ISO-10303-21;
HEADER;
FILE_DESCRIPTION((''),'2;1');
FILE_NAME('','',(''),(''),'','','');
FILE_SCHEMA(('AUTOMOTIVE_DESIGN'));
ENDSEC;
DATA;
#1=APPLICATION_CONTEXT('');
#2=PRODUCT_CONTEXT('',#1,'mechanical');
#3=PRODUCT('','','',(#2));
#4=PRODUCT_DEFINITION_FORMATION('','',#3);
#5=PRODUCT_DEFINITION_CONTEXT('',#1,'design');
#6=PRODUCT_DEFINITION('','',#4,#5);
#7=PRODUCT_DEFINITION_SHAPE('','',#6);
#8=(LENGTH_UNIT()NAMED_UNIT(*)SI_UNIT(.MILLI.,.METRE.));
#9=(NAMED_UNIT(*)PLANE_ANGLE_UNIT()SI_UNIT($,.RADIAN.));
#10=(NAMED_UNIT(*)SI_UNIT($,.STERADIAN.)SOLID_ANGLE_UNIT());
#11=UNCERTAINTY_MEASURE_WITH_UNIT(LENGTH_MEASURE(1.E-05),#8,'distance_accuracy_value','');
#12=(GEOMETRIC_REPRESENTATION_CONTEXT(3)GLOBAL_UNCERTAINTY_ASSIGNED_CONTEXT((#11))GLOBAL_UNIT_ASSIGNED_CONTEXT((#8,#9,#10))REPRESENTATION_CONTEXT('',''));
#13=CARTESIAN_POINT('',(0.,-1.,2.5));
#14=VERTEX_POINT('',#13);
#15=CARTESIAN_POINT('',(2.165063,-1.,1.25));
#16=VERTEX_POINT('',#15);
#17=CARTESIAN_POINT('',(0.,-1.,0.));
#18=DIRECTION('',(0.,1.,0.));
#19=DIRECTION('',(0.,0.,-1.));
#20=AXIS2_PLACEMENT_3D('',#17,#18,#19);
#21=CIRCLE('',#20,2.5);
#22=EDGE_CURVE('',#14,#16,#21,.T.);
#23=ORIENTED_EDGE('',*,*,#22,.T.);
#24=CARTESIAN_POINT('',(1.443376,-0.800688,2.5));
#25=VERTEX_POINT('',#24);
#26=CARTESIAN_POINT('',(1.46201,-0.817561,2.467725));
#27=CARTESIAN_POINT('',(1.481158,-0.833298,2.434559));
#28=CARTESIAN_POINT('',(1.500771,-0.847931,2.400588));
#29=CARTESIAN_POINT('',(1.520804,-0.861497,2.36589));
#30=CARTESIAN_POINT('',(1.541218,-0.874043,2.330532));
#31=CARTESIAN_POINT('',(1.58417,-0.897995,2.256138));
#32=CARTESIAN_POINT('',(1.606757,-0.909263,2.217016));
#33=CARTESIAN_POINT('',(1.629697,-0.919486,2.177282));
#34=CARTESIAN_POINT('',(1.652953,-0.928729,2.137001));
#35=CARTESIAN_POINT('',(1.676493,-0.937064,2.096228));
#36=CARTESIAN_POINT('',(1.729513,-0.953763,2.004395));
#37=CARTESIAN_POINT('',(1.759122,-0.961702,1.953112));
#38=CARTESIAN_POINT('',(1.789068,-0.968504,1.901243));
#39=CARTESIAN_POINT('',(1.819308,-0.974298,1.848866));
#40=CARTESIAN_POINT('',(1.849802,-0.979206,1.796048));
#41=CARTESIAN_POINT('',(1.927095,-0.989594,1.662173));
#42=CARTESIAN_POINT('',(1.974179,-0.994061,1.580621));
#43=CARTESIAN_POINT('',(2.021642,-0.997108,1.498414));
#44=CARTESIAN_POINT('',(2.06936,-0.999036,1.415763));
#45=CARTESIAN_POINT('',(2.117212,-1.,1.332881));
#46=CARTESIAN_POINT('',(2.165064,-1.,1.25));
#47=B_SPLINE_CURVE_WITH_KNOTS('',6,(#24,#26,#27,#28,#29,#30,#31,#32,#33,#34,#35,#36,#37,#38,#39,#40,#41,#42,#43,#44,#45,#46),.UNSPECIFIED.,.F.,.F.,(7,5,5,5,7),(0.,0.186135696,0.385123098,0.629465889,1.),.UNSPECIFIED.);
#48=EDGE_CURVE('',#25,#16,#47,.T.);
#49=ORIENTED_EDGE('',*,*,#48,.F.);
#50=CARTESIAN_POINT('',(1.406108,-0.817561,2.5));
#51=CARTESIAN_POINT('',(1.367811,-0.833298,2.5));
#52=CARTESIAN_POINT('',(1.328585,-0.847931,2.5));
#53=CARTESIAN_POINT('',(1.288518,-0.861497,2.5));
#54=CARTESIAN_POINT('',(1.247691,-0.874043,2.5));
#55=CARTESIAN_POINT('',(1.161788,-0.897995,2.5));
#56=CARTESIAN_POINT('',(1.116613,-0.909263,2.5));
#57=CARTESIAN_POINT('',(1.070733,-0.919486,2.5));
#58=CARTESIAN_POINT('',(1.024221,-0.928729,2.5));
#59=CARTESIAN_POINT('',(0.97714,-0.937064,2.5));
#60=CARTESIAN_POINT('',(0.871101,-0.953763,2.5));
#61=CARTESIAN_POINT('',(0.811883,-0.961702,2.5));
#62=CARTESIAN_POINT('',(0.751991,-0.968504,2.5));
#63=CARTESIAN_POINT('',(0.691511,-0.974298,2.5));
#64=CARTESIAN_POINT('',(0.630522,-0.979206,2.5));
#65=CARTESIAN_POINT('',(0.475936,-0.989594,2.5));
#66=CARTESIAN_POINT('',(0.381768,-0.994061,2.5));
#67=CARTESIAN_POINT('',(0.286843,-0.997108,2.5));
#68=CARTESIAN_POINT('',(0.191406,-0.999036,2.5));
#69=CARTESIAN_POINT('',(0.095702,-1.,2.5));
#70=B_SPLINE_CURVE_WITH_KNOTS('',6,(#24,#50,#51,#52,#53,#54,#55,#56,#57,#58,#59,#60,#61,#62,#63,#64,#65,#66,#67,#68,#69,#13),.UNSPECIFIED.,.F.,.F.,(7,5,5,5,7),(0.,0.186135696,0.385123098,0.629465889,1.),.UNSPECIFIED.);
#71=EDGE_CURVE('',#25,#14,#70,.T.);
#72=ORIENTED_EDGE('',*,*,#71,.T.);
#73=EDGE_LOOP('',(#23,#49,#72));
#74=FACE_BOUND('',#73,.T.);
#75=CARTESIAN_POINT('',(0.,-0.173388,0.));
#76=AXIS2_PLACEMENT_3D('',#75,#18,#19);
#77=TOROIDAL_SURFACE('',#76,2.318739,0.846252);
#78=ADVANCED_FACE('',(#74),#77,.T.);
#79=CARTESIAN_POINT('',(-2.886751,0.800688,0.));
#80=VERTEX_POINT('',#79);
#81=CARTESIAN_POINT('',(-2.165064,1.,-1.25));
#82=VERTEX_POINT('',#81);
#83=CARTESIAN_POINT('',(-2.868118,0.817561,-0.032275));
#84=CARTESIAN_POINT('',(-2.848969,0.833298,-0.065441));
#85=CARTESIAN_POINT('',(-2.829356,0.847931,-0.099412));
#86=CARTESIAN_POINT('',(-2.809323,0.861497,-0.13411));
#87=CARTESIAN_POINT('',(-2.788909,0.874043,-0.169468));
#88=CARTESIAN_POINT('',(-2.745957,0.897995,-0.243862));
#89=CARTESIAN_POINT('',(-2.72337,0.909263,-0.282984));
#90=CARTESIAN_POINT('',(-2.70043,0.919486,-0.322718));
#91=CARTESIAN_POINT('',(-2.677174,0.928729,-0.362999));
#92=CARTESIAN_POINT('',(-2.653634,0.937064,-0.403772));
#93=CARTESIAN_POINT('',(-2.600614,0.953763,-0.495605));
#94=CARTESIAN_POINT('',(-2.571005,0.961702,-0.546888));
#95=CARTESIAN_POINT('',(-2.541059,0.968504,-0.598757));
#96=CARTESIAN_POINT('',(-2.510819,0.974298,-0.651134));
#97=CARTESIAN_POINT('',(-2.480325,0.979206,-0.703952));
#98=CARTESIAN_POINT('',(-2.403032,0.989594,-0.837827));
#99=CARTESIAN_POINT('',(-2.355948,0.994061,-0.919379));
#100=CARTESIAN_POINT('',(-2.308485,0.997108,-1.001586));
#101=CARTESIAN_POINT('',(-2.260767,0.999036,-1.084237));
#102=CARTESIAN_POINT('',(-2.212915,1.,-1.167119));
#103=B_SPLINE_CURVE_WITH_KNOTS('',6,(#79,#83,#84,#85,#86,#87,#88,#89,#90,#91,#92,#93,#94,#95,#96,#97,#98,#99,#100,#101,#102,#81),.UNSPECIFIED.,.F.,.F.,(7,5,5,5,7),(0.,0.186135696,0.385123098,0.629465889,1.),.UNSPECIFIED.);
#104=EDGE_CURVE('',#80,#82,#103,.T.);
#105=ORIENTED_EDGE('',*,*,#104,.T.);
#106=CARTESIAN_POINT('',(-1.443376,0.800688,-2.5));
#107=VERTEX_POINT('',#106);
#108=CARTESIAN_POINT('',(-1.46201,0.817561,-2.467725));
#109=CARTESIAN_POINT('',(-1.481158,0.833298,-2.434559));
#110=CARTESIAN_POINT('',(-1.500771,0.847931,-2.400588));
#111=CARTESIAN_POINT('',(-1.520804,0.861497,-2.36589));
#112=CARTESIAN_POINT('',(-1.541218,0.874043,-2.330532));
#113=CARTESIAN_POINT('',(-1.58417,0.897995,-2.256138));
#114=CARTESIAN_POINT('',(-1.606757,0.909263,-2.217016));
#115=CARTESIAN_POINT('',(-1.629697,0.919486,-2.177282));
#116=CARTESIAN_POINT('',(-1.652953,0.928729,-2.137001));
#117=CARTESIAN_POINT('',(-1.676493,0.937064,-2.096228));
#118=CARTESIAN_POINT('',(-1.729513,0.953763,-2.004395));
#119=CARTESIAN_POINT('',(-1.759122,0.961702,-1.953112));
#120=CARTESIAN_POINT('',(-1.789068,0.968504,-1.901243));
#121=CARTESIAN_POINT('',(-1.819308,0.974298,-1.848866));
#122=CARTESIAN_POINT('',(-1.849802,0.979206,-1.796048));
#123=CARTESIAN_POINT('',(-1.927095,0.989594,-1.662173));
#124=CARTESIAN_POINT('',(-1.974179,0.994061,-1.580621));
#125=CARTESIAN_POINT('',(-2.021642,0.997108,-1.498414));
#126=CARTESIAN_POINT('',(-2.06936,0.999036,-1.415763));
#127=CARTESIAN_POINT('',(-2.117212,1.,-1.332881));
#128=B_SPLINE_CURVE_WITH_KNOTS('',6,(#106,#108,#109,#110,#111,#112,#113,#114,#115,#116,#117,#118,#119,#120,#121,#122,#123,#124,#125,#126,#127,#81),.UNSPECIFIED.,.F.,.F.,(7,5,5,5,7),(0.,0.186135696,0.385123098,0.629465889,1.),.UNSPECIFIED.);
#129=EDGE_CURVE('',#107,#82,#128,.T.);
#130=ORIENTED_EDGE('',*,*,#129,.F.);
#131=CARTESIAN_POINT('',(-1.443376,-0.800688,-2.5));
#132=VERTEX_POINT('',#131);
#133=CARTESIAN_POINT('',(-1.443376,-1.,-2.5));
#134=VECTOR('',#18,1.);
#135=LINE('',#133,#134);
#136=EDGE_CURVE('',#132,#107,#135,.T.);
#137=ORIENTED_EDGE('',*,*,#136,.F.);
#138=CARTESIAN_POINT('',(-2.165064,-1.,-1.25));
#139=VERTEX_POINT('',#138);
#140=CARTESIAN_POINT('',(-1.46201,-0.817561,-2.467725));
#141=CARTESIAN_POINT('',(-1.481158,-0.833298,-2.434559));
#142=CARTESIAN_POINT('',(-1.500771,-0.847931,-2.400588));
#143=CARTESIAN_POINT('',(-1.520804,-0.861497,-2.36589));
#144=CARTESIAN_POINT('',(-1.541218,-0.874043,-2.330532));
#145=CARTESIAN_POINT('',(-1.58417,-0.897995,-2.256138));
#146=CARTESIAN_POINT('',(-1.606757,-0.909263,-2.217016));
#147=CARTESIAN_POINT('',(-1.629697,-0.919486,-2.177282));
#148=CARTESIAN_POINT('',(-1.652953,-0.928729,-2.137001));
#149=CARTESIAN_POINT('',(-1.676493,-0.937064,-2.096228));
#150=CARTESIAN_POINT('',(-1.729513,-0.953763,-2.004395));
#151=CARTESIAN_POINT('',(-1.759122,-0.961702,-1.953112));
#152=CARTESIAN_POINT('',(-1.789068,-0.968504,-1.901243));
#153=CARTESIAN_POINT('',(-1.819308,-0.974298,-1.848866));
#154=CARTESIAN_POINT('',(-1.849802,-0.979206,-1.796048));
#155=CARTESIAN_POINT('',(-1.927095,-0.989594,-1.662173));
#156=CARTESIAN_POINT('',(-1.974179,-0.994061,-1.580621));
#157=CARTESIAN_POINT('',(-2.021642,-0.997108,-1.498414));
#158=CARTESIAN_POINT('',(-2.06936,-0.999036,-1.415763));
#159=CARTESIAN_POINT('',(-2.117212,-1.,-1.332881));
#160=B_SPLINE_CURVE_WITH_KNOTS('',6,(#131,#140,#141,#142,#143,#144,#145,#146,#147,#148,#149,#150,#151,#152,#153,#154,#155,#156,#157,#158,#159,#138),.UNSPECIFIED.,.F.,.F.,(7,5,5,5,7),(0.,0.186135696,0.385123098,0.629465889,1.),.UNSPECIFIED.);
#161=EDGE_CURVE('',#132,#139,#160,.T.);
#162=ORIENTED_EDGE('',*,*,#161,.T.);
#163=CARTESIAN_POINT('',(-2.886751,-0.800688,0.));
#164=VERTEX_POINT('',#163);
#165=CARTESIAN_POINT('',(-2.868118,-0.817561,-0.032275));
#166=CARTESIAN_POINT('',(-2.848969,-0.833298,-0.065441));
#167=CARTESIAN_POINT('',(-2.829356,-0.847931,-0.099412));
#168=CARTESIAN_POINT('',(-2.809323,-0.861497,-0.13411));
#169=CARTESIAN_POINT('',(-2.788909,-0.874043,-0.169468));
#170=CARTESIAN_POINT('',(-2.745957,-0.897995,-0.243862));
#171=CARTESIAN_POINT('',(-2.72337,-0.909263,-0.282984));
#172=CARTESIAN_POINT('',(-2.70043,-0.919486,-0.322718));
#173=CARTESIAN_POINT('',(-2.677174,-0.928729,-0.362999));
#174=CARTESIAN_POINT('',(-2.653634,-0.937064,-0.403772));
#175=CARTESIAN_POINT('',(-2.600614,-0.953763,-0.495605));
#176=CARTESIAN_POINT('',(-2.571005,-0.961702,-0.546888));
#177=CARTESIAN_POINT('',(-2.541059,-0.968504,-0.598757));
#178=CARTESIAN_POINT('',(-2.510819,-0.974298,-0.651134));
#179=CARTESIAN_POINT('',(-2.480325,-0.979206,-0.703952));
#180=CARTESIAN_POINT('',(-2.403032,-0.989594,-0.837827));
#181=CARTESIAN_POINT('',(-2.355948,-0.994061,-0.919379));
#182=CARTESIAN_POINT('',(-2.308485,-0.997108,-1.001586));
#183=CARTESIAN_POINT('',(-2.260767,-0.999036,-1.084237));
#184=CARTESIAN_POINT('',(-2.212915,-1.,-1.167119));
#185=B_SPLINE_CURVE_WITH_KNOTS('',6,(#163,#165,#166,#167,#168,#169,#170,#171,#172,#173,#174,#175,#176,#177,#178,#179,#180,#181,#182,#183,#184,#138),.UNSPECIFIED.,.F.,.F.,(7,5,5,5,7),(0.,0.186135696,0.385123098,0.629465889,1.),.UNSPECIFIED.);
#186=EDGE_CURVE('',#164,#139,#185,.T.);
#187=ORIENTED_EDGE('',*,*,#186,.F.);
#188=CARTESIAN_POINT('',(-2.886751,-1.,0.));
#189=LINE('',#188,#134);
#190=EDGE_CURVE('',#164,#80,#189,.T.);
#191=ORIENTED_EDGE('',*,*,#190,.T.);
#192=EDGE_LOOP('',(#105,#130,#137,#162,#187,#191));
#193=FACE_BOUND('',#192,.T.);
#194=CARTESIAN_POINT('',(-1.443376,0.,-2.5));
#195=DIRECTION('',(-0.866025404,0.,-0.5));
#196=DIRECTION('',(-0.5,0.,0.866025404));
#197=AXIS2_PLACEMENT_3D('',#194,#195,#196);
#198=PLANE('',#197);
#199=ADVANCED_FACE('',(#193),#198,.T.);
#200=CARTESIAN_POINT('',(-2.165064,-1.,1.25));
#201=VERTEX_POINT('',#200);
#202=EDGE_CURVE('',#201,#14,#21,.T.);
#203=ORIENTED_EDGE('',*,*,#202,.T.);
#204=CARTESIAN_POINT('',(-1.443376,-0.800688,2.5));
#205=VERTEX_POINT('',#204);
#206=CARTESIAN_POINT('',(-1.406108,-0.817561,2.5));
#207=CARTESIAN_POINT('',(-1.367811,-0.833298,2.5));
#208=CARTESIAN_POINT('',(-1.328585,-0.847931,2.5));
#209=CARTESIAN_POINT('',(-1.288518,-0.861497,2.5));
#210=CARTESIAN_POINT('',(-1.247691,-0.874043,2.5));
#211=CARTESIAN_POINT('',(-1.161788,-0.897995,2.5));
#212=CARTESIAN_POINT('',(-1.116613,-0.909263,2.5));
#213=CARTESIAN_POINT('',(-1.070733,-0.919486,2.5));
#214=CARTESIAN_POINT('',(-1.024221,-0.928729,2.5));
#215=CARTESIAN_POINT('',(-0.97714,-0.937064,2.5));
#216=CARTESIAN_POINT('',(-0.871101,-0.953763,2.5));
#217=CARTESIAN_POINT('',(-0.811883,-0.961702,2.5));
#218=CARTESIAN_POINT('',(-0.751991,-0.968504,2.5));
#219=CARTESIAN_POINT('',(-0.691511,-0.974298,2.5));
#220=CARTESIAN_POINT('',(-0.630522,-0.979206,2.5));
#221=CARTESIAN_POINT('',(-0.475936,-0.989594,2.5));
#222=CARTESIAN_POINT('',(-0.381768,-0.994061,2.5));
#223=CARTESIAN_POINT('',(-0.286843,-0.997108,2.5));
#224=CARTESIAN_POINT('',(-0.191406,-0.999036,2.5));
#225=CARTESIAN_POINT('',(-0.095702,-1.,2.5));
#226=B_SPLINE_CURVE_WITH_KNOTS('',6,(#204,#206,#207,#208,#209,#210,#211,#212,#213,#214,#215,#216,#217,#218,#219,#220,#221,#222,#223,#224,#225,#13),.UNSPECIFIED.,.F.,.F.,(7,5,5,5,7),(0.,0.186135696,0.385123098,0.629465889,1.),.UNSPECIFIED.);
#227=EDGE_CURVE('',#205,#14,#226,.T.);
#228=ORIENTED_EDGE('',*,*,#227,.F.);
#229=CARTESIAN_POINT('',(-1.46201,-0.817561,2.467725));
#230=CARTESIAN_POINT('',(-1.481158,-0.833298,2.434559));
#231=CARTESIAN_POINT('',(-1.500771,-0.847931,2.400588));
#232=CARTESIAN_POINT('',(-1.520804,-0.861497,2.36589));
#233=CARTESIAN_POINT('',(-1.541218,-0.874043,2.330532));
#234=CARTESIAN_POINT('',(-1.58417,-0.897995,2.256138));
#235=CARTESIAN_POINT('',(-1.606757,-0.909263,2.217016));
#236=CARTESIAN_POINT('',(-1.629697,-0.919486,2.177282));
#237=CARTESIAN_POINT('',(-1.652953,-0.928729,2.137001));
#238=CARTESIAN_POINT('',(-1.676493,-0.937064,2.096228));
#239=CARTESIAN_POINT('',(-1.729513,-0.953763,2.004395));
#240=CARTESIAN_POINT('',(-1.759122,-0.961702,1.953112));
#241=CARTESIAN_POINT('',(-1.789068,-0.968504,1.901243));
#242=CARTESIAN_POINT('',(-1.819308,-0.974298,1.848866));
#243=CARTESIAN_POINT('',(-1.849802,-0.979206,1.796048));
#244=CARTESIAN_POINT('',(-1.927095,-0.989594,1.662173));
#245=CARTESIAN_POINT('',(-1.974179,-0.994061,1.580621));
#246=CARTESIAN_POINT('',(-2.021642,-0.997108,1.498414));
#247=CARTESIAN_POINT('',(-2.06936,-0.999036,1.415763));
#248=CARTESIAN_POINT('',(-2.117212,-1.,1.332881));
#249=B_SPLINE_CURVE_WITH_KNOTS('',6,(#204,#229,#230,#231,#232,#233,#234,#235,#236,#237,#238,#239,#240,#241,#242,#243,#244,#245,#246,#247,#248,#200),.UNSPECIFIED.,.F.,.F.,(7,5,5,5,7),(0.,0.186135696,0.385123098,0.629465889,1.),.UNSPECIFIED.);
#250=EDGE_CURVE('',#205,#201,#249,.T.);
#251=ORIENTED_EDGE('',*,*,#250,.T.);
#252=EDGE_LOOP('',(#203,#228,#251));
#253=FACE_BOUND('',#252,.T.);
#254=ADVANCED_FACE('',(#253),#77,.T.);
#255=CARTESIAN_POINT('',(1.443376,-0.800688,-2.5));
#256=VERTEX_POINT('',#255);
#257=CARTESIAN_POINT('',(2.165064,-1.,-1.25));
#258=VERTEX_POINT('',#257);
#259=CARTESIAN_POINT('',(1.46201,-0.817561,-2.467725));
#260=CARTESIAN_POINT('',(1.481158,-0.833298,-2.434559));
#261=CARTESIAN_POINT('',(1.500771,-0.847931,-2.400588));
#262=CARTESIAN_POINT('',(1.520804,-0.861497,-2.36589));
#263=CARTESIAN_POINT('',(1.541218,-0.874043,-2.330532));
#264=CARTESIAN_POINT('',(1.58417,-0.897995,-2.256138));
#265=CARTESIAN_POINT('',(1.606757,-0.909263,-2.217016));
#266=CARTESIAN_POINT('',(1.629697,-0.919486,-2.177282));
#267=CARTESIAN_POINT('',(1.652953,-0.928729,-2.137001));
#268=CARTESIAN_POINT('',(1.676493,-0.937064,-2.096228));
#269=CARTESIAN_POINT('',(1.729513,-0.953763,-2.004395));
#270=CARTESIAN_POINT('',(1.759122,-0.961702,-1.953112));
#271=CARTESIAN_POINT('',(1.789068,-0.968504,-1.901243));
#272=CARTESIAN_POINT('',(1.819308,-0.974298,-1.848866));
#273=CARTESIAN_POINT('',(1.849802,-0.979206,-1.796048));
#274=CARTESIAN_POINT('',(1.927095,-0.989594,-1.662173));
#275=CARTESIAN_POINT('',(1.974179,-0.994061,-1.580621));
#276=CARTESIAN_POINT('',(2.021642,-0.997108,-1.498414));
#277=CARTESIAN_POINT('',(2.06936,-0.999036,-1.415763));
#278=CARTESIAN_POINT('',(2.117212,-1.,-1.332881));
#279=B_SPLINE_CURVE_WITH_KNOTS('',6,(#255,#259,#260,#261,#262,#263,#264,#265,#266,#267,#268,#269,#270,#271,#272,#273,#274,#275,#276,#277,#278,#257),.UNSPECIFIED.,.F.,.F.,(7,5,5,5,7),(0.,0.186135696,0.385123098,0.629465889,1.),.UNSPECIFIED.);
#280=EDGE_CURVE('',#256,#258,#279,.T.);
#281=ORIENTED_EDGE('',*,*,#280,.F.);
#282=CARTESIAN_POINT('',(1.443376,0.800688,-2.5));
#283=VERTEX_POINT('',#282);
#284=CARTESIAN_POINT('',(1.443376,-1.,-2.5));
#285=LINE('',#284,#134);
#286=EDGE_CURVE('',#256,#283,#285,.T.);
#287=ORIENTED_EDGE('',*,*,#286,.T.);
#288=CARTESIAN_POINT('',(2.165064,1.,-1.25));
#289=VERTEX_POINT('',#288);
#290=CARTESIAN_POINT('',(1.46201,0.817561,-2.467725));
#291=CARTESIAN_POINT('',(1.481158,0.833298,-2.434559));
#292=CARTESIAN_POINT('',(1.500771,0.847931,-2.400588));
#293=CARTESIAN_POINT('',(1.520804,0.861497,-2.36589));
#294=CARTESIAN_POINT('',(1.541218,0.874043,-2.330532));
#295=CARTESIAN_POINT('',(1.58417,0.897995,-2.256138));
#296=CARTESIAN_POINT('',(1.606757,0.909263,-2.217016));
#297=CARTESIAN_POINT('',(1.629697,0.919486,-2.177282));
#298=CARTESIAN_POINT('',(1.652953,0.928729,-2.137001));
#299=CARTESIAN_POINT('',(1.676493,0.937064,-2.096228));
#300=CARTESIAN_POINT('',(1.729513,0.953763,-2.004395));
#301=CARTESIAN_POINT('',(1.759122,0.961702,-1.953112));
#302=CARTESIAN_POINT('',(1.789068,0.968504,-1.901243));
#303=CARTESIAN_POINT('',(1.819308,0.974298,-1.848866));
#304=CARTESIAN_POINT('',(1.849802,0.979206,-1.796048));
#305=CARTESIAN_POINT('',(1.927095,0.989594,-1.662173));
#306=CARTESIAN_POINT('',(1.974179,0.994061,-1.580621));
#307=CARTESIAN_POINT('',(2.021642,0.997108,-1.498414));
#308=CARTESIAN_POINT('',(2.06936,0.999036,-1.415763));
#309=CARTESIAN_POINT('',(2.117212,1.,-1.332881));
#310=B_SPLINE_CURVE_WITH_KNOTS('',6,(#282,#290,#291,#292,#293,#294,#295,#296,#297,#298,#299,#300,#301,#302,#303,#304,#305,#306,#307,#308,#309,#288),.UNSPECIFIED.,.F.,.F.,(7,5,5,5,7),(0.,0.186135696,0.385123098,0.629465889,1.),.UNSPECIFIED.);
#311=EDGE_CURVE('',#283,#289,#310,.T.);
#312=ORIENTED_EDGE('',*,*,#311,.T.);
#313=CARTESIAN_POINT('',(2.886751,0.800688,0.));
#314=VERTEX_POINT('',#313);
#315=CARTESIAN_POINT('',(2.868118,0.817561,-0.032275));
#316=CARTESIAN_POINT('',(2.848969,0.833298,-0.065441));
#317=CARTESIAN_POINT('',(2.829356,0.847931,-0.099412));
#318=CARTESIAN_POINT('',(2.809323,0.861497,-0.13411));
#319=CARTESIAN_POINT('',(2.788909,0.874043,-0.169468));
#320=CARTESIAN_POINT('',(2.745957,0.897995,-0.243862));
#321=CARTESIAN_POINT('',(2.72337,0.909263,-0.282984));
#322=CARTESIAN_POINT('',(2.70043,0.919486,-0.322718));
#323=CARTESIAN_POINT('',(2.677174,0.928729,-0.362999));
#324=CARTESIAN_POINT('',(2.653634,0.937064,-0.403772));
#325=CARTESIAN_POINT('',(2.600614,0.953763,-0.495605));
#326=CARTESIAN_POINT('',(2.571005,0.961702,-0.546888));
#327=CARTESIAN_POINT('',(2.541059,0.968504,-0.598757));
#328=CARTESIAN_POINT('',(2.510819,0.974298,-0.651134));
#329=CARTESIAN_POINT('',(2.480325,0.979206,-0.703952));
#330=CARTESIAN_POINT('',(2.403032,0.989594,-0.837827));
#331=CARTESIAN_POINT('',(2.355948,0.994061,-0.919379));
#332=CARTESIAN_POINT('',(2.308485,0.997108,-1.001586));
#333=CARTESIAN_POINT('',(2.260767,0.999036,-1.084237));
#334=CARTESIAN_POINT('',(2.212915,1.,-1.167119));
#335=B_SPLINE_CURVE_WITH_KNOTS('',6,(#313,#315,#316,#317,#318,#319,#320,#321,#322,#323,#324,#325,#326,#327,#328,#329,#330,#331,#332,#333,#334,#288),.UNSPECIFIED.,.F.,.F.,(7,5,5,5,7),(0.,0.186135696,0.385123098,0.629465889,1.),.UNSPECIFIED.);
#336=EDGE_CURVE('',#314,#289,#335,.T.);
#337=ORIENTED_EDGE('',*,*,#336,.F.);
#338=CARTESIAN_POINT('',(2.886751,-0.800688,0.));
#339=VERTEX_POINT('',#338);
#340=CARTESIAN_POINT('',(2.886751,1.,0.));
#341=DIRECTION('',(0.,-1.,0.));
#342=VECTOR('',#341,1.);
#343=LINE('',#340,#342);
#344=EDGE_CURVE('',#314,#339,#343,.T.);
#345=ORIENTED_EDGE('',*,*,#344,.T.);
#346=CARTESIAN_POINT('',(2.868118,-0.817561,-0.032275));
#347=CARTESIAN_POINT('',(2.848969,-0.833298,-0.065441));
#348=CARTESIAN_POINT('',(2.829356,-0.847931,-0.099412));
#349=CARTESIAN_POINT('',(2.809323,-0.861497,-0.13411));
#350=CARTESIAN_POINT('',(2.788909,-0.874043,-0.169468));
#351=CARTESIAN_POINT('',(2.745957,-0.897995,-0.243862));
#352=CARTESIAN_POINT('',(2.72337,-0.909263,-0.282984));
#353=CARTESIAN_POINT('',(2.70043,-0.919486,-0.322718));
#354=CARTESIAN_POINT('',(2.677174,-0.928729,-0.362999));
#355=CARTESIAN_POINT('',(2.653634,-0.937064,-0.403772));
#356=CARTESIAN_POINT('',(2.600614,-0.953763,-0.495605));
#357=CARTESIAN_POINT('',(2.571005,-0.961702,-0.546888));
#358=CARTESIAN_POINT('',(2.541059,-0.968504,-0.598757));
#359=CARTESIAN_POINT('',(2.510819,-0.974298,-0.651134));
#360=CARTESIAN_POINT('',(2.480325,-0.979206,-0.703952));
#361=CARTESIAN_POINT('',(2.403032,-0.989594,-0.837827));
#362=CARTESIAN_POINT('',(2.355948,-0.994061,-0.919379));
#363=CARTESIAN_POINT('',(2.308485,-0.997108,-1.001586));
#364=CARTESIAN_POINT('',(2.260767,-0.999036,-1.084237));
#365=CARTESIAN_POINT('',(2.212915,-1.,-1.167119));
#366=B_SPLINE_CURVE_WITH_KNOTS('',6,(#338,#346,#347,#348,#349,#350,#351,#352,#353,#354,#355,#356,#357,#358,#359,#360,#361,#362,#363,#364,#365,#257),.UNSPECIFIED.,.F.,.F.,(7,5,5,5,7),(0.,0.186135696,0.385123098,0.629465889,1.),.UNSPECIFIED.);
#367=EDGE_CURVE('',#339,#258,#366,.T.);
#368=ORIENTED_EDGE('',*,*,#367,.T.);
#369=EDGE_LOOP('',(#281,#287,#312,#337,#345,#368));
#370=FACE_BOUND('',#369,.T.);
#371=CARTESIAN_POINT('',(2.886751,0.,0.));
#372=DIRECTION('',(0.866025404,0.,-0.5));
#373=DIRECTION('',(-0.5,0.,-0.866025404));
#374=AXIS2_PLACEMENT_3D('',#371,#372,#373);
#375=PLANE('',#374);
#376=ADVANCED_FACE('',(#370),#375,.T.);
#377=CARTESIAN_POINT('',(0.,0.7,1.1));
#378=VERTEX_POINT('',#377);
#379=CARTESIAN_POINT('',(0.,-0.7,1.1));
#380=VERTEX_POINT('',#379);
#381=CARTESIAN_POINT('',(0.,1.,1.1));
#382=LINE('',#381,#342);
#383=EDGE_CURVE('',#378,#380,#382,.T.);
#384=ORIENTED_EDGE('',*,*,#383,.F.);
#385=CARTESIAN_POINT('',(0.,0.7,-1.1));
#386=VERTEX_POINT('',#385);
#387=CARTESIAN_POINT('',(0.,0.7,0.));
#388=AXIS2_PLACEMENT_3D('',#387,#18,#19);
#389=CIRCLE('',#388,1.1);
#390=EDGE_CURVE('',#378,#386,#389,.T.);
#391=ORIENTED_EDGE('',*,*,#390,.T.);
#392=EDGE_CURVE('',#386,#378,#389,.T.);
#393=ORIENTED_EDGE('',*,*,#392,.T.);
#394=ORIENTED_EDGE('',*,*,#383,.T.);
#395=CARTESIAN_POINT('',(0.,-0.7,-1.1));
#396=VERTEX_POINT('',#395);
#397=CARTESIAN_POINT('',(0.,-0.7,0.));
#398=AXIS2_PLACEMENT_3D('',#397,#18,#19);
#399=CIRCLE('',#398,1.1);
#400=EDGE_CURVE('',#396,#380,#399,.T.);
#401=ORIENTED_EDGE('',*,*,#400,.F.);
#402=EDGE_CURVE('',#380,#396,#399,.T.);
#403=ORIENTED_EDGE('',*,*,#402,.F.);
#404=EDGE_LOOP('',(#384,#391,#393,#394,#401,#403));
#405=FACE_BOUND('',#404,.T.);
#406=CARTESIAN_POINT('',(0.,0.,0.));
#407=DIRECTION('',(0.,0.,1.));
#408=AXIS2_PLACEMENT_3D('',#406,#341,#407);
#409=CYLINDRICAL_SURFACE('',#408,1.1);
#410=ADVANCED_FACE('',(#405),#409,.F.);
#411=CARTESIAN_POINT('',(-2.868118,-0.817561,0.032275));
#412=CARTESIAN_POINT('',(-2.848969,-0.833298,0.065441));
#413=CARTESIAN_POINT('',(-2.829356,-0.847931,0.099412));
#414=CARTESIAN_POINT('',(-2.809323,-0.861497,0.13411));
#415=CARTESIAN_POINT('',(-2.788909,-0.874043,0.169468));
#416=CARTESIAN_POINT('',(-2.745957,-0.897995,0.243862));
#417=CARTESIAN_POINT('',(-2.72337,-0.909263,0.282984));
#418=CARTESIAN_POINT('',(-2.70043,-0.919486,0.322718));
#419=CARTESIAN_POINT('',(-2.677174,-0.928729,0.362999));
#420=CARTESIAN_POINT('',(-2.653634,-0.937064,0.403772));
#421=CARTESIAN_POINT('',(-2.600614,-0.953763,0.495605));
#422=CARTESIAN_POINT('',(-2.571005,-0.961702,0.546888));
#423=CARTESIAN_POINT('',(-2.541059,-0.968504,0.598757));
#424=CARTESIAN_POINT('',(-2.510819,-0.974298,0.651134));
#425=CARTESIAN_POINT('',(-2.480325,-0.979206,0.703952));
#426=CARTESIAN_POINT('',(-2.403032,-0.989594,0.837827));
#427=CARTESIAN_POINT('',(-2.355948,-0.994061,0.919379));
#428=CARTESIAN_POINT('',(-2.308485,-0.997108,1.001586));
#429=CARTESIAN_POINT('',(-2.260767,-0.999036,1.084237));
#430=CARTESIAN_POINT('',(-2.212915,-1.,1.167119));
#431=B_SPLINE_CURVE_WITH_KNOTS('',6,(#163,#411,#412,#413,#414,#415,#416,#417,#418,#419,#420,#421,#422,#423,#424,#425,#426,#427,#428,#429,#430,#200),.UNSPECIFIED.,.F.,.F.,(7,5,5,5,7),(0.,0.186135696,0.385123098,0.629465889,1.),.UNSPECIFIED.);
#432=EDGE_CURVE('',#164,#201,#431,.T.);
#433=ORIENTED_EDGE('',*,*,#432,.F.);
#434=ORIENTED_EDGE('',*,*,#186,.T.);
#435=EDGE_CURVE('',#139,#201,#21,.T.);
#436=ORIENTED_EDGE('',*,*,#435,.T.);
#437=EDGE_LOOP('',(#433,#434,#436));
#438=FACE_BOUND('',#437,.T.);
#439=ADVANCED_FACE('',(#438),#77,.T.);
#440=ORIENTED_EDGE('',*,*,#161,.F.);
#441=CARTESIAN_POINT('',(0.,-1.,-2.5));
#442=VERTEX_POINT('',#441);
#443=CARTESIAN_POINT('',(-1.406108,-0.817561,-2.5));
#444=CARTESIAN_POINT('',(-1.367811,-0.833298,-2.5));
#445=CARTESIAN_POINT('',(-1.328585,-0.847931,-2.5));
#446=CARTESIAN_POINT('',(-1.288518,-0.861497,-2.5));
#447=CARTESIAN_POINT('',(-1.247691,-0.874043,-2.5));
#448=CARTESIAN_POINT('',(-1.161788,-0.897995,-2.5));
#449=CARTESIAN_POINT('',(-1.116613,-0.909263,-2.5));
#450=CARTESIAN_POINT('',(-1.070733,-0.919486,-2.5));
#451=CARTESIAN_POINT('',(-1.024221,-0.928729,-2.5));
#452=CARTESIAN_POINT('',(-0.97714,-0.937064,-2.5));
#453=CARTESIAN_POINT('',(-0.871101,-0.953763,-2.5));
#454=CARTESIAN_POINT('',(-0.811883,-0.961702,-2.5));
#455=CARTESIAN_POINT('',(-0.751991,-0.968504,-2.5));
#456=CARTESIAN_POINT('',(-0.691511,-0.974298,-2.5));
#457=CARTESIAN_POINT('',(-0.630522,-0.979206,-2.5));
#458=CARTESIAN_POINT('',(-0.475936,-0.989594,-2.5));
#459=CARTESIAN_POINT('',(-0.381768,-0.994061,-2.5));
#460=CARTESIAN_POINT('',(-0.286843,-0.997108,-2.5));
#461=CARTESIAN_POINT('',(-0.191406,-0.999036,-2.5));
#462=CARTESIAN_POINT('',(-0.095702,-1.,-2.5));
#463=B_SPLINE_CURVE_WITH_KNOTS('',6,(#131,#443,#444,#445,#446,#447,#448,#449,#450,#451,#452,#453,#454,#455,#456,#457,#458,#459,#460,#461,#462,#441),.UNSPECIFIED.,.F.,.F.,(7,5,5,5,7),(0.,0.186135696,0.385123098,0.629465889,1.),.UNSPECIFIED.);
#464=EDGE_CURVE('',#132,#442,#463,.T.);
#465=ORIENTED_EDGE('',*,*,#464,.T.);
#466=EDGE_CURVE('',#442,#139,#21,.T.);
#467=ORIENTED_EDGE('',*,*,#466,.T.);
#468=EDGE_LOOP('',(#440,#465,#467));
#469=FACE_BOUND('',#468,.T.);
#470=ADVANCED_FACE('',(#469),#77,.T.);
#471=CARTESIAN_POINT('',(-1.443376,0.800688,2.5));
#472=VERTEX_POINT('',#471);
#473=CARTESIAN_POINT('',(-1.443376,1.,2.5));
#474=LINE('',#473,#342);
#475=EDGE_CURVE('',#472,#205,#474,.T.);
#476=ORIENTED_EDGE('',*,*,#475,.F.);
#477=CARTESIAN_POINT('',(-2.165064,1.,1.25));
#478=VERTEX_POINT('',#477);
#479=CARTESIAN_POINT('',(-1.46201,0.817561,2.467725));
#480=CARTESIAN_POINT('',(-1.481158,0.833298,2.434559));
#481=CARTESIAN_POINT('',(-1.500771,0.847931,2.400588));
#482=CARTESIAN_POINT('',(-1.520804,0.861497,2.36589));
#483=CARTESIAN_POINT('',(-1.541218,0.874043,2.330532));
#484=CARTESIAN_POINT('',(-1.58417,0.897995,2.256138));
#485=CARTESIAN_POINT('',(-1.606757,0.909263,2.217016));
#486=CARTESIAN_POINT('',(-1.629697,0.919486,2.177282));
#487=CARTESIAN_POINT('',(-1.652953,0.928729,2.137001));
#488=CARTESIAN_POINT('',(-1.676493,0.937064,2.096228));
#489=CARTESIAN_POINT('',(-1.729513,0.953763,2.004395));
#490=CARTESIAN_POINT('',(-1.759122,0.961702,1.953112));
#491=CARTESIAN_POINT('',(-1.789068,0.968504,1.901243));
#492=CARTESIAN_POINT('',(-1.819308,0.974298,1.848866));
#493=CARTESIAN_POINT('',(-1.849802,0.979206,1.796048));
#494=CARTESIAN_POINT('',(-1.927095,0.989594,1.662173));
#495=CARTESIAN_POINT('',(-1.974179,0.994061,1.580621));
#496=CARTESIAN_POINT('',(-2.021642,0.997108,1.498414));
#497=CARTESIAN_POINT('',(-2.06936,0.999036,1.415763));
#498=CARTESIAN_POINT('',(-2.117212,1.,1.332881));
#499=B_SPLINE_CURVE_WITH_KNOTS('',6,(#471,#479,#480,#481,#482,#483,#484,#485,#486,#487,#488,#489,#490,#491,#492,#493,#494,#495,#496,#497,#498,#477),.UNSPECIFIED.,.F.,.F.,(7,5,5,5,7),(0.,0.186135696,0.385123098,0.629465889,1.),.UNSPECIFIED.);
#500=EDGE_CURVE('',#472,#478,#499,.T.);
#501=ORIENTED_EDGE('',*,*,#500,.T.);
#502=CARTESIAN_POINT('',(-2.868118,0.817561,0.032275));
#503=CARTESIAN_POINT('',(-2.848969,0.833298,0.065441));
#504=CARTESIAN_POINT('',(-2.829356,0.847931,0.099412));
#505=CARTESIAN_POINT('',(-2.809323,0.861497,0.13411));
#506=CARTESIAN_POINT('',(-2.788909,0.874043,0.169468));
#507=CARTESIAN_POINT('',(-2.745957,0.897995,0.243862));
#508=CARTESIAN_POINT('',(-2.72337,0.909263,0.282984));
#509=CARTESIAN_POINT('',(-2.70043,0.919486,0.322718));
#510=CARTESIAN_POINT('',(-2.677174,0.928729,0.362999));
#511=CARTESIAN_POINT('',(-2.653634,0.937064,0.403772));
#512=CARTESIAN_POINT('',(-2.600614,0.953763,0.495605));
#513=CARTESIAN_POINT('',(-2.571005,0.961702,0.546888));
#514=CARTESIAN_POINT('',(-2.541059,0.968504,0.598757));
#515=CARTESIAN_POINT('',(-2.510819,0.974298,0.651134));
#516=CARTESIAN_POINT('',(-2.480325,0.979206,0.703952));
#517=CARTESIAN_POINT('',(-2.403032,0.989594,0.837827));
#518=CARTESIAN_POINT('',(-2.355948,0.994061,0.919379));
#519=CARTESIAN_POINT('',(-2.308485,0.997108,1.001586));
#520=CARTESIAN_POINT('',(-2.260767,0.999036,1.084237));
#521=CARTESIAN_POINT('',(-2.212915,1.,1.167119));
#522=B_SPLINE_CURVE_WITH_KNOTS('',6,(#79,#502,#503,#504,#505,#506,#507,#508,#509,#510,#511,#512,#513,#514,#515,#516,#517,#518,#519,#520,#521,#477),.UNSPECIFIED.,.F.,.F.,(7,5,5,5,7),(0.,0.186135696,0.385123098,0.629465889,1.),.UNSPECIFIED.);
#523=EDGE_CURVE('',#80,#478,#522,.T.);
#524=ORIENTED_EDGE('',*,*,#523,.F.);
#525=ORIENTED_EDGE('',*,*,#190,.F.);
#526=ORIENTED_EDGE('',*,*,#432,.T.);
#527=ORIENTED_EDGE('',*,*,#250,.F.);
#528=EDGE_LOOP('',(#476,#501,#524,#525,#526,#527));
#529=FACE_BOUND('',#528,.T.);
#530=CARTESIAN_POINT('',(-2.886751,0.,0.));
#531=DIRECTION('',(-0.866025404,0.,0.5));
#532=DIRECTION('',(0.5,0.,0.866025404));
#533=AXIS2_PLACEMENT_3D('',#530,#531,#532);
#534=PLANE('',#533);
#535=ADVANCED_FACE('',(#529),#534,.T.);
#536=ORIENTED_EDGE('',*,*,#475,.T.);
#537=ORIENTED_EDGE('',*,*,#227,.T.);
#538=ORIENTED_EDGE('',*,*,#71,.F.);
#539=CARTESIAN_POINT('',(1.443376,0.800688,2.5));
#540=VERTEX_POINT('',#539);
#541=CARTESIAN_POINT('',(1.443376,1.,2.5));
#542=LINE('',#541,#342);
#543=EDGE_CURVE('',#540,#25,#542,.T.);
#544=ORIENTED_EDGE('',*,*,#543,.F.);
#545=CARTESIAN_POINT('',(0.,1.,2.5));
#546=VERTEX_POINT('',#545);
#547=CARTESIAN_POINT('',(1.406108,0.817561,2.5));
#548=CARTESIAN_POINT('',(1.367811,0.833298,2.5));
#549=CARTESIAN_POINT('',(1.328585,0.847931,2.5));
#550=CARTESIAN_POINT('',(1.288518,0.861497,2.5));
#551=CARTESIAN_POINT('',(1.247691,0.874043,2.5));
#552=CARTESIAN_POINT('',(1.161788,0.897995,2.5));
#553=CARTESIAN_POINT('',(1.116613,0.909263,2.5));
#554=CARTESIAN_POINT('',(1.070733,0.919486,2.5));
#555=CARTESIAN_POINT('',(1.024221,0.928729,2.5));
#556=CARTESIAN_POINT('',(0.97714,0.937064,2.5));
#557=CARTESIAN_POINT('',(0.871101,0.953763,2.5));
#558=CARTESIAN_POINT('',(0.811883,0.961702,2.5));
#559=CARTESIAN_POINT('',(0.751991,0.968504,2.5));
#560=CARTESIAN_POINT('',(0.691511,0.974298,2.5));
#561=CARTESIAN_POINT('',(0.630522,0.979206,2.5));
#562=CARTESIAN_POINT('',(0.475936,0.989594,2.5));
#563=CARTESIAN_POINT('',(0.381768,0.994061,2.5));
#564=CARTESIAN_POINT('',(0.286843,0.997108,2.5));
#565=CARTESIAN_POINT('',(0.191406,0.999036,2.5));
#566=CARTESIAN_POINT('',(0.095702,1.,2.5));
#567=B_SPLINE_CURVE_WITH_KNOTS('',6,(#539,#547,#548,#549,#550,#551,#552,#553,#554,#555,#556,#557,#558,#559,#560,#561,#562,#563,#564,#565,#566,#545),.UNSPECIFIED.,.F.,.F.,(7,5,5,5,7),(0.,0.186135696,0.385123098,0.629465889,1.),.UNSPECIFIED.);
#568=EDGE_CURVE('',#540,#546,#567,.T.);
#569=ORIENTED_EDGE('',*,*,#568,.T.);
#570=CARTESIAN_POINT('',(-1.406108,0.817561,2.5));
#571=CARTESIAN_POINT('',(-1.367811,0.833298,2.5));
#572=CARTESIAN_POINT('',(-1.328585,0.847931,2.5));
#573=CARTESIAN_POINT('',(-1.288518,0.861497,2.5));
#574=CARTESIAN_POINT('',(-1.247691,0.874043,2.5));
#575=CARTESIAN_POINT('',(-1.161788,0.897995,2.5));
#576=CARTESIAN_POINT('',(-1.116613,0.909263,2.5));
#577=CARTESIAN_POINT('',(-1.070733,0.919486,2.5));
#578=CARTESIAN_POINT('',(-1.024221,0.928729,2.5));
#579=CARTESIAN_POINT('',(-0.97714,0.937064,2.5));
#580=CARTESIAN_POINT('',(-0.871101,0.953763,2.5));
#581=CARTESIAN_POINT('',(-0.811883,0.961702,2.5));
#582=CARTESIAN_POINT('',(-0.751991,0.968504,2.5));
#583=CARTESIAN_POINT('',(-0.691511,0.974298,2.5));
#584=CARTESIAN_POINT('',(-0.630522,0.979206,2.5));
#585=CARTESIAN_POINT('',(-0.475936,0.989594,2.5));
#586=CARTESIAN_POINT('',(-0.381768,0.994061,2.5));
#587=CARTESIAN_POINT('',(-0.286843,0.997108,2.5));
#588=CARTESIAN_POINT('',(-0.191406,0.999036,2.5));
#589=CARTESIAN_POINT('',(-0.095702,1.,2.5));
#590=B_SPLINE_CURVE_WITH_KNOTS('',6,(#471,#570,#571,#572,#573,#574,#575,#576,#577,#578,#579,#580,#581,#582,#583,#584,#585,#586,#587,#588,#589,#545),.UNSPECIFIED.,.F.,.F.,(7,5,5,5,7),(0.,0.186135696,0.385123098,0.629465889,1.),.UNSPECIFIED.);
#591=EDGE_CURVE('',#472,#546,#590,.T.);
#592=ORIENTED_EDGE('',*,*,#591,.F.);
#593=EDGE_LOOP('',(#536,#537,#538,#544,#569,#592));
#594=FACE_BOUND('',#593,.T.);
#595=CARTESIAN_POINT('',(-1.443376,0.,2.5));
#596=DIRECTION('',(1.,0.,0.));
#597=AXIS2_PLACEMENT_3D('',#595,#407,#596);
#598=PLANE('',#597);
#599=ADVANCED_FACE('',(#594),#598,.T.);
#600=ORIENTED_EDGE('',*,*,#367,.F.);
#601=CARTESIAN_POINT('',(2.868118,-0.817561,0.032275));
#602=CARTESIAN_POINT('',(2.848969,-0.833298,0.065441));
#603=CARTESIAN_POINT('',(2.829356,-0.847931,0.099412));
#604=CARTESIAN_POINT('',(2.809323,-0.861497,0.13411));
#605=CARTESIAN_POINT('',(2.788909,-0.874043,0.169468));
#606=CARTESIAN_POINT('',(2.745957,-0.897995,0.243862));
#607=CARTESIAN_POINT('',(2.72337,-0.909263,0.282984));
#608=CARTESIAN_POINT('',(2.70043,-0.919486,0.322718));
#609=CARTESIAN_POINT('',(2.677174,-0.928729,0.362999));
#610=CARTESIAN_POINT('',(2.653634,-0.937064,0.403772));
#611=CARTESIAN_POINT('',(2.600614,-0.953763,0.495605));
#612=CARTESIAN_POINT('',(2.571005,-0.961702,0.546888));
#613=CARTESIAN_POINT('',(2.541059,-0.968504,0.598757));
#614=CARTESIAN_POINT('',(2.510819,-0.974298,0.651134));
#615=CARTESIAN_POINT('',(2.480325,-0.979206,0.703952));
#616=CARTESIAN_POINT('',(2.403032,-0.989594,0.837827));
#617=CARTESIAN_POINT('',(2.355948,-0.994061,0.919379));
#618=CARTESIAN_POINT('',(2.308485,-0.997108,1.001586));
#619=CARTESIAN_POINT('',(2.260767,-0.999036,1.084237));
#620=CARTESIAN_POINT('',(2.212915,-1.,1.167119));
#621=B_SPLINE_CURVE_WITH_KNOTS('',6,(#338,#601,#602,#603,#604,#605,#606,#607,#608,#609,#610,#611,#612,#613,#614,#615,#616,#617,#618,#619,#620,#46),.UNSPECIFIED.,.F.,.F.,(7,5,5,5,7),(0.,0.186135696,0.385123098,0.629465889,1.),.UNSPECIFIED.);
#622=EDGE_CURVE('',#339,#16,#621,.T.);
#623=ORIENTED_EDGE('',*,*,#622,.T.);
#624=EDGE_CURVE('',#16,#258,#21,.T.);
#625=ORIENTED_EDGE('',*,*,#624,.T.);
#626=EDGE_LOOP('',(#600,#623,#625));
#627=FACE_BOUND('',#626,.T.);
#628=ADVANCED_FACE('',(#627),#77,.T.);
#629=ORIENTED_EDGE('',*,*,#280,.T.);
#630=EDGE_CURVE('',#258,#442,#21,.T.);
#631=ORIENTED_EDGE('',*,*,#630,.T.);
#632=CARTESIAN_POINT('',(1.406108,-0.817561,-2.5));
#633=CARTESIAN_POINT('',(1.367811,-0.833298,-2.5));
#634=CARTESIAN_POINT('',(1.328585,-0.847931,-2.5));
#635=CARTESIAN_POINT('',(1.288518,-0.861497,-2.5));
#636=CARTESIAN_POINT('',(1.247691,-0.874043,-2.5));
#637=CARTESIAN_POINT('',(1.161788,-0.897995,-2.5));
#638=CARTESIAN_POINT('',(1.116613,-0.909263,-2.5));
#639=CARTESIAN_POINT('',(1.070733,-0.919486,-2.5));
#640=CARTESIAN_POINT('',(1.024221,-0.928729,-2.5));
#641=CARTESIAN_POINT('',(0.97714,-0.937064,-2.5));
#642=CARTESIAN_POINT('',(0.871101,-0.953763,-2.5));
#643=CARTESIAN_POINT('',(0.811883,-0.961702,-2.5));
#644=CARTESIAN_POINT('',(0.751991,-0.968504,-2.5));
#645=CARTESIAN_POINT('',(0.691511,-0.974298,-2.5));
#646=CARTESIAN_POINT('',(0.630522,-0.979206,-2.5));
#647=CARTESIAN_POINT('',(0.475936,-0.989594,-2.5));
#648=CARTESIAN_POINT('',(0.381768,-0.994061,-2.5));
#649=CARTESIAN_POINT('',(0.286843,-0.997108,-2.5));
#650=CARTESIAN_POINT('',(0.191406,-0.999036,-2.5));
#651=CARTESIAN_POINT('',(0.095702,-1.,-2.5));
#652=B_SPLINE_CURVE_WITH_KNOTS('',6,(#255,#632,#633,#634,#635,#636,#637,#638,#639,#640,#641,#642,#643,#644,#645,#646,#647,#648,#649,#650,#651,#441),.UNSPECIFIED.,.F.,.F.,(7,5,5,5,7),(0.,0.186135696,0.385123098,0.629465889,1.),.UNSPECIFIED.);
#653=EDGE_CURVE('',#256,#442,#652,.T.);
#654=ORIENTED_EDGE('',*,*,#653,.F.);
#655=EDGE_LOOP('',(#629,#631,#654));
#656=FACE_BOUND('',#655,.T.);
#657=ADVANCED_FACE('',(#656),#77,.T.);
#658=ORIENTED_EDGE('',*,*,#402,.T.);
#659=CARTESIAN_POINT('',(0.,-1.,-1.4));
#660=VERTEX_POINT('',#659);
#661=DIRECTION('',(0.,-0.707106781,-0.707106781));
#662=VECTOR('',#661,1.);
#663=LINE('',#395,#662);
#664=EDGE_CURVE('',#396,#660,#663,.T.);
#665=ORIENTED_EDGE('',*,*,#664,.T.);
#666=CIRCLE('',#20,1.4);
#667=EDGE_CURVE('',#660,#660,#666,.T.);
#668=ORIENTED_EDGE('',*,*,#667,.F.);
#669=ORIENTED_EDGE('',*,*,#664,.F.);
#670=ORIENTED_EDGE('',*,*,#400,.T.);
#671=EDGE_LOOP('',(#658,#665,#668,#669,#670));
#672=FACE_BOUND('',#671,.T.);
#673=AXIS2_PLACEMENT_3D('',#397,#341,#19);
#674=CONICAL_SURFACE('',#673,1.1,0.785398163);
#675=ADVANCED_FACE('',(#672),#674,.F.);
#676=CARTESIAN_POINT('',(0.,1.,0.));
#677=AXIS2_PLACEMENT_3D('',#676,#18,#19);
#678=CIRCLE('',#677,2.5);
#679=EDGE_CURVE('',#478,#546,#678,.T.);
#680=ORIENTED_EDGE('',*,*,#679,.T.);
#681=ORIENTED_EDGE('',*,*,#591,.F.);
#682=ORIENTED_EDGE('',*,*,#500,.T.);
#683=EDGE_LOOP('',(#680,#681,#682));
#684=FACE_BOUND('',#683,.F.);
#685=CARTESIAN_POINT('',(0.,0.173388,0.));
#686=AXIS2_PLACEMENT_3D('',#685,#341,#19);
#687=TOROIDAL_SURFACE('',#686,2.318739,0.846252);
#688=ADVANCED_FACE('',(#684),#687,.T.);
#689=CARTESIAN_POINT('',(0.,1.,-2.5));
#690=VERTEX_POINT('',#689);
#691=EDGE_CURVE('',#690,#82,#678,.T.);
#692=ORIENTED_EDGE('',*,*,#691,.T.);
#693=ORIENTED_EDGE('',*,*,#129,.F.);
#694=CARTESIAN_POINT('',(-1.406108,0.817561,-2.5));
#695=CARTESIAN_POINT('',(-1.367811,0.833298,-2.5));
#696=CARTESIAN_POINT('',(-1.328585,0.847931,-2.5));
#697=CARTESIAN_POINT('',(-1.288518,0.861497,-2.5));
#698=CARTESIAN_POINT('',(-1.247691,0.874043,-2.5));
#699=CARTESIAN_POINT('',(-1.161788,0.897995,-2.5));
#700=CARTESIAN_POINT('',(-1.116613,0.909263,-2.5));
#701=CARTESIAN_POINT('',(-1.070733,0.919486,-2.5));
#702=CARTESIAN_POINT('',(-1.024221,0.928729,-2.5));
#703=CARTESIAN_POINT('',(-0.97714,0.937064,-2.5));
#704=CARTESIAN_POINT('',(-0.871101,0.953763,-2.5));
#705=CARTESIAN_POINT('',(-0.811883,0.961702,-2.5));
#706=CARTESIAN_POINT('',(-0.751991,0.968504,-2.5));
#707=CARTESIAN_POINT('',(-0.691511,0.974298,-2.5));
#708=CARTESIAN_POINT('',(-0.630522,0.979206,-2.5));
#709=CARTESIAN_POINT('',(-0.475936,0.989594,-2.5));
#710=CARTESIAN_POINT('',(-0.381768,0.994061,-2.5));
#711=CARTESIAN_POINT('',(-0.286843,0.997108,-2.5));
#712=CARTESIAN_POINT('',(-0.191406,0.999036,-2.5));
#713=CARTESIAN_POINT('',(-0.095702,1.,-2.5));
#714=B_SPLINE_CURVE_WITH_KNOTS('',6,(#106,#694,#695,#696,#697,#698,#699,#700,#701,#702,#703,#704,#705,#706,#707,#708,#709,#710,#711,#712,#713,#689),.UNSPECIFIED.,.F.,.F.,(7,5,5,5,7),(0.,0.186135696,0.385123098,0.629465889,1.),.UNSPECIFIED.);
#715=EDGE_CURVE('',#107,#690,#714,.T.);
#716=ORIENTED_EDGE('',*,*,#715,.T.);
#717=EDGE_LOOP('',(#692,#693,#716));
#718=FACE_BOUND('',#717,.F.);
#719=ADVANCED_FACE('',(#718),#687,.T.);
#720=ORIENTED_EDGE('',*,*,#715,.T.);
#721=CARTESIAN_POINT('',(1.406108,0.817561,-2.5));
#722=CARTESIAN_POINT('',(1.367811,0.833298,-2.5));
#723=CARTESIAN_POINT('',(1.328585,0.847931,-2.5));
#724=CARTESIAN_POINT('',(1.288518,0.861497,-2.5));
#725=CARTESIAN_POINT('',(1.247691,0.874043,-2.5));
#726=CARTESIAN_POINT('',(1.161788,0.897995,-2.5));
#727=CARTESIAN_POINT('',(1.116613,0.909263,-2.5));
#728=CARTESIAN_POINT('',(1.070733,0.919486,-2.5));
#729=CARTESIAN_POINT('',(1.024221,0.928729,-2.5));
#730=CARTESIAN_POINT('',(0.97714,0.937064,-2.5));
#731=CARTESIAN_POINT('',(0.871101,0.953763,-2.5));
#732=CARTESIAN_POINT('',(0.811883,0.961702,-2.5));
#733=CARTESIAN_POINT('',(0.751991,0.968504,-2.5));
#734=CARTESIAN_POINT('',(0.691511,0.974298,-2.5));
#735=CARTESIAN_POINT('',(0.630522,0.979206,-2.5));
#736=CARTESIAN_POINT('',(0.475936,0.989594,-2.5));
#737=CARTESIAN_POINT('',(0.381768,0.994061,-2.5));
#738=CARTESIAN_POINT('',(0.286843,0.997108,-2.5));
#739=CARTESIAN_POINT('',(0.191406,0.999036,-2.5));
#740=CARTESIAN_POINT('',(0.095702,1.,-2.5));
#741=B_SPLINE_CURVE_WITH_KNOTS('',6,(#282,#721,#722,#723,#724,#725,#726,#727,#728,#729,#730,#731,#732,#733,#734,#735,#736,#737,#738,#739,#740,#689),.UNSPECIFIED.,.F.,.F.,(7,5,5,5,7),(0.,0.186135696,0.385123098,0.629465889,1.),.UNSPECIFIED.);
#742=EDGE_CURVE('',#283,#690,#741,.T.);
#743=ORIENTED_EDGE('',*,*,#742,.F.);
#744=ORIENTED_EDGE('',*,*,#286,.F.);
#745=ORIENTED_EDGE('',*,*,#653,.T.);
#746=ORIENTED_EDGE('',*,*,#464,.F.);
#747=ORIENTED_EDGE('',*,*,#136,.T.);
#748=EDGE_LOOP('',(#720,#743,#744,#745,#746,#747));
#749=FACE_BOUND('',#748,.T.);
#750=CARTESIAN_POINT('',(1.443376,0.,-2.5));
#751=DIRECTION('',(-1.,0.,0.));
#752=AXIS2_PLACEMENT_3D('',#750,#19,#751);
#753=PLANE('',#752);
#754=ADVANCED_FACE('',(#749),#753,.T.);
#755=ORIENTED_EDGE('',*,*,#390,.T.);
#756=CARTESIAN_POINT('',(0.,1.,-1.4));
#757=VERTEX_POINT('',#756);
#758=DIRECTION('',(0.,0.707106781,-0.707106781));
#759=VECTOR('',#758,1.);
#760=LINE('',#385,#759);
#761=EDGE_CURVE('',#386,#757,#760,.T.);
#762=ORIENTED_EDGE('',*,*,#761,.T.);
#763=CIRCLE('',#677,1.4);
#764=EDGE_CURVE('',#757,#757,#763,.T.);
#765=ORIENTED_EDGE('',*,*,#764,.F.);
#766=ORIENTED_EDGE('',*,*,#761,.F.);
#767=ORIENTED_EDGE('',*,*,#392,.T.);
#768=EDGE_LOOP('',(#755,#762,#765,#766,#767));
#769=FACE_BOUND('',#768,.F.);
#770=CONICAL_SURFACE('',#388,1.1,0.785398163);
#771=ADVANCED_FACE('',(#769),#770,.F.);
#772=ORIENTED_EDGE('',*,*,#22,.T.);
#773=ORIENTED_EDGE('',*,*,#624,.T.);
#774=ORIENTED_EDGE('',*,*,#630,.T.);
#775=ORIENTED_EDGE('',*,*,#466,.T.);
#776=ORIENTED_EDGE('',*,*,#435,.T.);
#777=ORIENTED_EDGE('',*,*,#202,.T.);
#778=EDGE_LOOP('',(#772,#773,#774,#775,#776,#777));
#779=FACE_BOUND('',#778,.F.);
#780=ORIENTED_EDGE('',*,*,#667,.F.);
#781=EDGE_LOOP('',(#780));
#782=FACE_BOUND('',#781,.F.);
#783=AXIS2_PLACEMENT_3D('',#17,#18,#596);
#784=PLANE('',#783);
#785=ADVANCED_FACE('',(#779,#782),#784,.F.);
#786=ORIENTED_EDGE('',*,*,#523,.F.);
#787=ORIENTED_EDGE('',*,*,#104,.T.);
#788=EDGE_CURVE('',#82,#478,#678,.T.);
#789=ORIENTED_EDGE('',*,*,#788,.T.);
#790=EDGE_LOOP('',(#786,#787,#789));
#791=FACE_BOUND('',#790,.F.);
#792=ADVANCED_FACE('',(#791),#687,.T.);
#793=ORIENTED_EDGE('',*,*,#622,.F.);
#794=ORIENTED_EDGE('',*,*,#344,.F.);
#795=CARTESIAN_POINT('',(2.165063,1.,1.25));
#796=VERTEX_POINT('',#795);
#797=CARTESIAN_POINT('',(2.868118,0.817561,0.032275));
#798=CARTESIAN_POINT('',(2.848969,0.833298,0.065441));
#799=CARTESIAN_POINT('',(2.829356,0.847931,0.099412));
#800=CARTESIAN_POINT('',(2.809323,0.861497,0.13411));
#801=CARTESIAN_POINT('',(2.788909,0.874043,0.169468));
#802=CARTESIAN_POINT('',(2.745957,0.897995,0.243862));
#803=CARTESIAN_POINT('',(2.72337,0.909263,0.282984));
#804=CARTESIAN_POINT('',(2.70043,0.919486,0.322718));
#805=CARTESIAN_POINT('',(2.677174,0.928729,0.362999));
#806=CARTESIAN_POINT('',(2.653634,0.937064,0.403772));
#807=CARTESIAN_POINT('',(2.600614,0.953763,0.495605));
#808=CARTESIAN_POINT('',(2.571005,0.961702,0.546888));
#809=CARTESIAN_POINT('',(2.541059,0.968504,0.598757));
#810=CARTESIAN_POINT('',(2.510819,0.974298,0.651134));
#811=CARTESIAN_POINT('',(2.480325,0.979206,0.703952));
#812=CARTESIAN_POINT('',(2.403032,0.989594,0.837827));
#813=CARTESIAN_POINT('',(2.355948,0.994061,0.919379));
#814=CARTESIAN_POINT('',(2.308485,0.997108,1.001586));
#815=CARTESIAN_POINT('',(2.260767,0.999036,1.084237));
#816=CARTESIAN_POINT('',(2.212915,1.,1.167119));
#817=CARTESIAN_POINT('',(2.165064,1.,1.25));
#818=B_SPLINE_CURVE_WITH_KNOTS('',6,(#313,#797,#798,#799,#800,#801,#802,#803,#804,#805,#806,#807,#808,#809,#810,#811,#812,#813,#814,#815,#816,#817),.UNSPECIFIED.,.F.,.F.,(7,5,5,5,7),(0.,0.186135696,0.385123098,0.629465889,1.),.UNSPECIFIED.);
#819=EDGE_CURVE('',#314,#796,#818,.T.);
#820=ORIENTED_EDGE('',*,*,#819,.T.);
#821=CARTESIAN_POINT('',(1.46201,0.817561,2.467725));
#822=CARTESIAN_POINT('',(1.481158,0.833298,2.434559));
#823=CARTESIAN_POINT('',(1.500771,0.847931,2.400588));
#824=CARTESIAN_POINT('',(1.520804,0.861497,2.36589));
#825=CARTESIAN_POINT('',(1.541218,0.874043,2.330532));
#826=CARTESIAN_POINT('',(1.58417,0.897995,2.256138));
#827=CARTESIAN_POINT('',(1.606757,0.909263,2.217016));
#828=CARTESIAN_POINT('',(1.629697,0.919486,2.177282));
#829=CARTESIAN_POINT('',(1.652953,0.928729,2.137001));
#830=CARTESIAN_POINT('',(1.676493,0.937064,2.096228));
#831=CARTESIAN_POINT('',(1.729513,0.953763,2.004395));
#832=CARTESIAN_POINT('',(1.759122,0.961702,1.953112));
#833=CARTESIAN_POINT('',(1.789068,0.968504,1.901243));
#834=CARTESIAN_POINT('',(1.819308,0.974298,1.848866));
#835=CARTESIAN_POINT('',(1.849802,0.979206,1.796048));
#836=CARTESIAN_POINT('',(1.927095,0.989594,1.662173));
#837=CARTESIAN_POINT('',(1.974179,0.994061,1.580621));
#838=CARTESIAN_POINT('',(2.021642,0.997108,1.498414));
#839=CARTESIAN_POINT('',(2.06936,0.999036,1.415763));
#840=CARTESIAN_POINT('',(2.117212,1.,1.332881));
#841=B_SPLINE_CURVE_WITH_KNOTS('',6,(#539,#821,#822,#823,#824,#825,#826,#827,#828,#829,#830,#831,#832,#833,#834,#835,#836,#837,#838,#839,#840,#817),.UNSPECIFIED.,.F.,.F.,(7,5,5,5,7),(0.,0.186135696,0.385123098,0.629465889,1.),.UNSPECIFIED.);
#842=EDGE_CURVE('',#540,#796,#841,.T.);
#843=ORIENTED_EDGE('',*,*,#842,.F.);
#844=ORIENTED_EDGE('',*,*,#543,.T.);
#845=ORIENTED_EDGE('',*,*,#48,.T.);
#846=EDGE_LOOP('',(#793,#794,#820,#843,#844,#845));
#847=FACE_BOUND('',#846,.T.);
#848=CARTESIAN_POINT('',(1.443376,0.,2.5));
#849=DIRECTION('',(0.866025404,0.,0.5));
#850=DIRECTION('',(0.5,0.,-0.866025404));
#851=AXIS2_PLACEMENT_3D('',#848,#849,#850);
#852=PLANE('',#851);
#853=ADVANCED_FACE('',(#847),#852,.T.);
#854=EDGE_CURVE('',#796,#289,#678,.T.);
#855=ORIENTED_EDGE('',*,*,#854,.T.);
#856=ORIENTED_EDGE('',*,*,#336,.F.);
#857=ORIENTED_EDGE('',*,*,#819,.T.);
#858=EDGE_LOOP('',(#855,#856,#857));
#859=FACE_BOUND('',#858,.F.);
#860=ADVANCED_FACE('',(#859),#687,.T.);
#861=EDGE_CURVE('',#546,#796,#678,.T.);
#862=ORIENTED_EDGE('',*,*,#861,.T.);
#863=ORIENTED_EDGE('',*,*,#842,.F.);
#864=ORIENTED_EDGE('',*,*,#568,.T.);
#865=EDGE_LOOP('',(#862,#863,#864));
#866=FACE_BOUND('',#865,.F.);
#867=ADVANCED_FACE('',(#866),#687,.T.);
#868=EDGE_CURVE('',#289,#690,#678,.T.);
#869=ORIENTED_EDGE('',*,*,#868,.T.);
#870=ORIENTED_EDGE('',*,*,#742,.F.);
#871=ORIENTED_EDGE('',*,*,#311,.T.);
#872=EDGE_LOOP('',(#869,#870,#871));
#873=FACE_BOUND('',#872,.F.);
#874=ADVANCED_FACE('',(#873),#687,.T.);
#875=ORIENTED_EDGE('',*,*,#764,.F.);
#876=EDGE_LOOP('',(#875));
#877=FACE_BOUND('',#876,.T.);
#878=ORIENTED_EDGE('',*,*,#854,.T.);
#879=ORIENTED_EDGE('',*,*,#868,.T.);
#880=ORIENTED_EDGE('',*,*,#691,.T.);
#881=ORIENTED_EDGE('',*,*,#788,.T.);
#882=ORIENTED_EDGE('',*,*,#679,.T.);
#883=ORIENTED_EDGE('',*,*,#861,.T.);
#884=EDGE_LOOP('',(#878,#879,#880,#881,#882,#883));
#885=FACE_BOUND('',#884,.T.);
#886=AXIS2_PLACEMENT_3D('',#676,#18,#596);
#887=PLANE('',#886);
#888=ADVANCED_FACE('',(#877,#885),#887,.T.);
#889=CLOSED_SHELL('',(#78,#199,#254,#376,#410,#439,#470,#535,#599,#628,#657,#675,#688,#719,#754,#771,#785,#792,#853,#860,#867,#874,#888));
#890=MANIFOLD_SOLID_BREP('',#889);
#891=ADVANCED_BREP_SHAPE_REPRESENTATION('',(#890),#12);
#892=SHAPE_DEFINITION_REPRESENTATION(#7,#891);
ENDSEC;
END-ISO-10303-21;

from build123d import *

# Parameters (mm, degrees)
SKETCH1_R           = 1.1
BOSS_EXTRUDE1_DEPTH = 1


with BuildPart() as part:
    # Sketch1 → Boss-Extrude1 (new, symmetric)
    with BuildSketch(Plane(origin=(0, 0, 0), x_dir=(1, 0, 0), z_dir=(0, 1, 0))):
        Polygon((2.886751346, 0), (1.443375673, 2.5), (-1.443375673, 2.5), (-2.886751346, 0), (-1.443375673, -2.5), (1.443375673, -2.5), align=None)
        with Locations(Location((0, 0, 0), (0, 0, 270))):
            Circle(SKETCH1_R, mode=Mode.SUBTRACT)
    extrude(amount=BOSS_EXTRUDE1_DEPTH, both=True)

    # Sketch2 → Cut-Revolve1 (revolve, cut)
    with BuildSketch(Plane.XY, mode=Mode.PRIVATE) as cut_revolve1_sk:
        with BuildLine():
            Line((-2.886751346, 0.800688001), (-2.886751346, 1))
            Line((-2.886751346, 1), (-2.5, 1))
            ThreePointArc((-2.5, 1), (-2.706403757, 0.925624109), (-2.886751346, 0.800688001))
        make_face()
        Polygon((-1.4, 1), (-1.1, 1), (-1.1, 0.7), align=None)
        with BuildLine():
            Line((-2.886751346, -0.800688001), (-2.886751346, -1))
            Line((-2.886751346, -1), (-2.5, -1))
            ThreePointArc((-2.5, -1), (-2.706403757, -0.925624109), (-2.886751346, -0.800688001))
        make_face()
    cut_revolve1 = revolve(cut_revolve1_sk.sketch.rotate(Axis((0, 0, 0), (0, 1, 0)), 270), axis=Axis((0, 0, 0), (0, 1, 0)), mode=Mode.SUBTRACT)

    # Mirror1: Cut-Revolve1 across plane
    add(cut_revolve1.mirror(Plane.ZX), mode=Mode.SUBTRACT)


solid = part.part
